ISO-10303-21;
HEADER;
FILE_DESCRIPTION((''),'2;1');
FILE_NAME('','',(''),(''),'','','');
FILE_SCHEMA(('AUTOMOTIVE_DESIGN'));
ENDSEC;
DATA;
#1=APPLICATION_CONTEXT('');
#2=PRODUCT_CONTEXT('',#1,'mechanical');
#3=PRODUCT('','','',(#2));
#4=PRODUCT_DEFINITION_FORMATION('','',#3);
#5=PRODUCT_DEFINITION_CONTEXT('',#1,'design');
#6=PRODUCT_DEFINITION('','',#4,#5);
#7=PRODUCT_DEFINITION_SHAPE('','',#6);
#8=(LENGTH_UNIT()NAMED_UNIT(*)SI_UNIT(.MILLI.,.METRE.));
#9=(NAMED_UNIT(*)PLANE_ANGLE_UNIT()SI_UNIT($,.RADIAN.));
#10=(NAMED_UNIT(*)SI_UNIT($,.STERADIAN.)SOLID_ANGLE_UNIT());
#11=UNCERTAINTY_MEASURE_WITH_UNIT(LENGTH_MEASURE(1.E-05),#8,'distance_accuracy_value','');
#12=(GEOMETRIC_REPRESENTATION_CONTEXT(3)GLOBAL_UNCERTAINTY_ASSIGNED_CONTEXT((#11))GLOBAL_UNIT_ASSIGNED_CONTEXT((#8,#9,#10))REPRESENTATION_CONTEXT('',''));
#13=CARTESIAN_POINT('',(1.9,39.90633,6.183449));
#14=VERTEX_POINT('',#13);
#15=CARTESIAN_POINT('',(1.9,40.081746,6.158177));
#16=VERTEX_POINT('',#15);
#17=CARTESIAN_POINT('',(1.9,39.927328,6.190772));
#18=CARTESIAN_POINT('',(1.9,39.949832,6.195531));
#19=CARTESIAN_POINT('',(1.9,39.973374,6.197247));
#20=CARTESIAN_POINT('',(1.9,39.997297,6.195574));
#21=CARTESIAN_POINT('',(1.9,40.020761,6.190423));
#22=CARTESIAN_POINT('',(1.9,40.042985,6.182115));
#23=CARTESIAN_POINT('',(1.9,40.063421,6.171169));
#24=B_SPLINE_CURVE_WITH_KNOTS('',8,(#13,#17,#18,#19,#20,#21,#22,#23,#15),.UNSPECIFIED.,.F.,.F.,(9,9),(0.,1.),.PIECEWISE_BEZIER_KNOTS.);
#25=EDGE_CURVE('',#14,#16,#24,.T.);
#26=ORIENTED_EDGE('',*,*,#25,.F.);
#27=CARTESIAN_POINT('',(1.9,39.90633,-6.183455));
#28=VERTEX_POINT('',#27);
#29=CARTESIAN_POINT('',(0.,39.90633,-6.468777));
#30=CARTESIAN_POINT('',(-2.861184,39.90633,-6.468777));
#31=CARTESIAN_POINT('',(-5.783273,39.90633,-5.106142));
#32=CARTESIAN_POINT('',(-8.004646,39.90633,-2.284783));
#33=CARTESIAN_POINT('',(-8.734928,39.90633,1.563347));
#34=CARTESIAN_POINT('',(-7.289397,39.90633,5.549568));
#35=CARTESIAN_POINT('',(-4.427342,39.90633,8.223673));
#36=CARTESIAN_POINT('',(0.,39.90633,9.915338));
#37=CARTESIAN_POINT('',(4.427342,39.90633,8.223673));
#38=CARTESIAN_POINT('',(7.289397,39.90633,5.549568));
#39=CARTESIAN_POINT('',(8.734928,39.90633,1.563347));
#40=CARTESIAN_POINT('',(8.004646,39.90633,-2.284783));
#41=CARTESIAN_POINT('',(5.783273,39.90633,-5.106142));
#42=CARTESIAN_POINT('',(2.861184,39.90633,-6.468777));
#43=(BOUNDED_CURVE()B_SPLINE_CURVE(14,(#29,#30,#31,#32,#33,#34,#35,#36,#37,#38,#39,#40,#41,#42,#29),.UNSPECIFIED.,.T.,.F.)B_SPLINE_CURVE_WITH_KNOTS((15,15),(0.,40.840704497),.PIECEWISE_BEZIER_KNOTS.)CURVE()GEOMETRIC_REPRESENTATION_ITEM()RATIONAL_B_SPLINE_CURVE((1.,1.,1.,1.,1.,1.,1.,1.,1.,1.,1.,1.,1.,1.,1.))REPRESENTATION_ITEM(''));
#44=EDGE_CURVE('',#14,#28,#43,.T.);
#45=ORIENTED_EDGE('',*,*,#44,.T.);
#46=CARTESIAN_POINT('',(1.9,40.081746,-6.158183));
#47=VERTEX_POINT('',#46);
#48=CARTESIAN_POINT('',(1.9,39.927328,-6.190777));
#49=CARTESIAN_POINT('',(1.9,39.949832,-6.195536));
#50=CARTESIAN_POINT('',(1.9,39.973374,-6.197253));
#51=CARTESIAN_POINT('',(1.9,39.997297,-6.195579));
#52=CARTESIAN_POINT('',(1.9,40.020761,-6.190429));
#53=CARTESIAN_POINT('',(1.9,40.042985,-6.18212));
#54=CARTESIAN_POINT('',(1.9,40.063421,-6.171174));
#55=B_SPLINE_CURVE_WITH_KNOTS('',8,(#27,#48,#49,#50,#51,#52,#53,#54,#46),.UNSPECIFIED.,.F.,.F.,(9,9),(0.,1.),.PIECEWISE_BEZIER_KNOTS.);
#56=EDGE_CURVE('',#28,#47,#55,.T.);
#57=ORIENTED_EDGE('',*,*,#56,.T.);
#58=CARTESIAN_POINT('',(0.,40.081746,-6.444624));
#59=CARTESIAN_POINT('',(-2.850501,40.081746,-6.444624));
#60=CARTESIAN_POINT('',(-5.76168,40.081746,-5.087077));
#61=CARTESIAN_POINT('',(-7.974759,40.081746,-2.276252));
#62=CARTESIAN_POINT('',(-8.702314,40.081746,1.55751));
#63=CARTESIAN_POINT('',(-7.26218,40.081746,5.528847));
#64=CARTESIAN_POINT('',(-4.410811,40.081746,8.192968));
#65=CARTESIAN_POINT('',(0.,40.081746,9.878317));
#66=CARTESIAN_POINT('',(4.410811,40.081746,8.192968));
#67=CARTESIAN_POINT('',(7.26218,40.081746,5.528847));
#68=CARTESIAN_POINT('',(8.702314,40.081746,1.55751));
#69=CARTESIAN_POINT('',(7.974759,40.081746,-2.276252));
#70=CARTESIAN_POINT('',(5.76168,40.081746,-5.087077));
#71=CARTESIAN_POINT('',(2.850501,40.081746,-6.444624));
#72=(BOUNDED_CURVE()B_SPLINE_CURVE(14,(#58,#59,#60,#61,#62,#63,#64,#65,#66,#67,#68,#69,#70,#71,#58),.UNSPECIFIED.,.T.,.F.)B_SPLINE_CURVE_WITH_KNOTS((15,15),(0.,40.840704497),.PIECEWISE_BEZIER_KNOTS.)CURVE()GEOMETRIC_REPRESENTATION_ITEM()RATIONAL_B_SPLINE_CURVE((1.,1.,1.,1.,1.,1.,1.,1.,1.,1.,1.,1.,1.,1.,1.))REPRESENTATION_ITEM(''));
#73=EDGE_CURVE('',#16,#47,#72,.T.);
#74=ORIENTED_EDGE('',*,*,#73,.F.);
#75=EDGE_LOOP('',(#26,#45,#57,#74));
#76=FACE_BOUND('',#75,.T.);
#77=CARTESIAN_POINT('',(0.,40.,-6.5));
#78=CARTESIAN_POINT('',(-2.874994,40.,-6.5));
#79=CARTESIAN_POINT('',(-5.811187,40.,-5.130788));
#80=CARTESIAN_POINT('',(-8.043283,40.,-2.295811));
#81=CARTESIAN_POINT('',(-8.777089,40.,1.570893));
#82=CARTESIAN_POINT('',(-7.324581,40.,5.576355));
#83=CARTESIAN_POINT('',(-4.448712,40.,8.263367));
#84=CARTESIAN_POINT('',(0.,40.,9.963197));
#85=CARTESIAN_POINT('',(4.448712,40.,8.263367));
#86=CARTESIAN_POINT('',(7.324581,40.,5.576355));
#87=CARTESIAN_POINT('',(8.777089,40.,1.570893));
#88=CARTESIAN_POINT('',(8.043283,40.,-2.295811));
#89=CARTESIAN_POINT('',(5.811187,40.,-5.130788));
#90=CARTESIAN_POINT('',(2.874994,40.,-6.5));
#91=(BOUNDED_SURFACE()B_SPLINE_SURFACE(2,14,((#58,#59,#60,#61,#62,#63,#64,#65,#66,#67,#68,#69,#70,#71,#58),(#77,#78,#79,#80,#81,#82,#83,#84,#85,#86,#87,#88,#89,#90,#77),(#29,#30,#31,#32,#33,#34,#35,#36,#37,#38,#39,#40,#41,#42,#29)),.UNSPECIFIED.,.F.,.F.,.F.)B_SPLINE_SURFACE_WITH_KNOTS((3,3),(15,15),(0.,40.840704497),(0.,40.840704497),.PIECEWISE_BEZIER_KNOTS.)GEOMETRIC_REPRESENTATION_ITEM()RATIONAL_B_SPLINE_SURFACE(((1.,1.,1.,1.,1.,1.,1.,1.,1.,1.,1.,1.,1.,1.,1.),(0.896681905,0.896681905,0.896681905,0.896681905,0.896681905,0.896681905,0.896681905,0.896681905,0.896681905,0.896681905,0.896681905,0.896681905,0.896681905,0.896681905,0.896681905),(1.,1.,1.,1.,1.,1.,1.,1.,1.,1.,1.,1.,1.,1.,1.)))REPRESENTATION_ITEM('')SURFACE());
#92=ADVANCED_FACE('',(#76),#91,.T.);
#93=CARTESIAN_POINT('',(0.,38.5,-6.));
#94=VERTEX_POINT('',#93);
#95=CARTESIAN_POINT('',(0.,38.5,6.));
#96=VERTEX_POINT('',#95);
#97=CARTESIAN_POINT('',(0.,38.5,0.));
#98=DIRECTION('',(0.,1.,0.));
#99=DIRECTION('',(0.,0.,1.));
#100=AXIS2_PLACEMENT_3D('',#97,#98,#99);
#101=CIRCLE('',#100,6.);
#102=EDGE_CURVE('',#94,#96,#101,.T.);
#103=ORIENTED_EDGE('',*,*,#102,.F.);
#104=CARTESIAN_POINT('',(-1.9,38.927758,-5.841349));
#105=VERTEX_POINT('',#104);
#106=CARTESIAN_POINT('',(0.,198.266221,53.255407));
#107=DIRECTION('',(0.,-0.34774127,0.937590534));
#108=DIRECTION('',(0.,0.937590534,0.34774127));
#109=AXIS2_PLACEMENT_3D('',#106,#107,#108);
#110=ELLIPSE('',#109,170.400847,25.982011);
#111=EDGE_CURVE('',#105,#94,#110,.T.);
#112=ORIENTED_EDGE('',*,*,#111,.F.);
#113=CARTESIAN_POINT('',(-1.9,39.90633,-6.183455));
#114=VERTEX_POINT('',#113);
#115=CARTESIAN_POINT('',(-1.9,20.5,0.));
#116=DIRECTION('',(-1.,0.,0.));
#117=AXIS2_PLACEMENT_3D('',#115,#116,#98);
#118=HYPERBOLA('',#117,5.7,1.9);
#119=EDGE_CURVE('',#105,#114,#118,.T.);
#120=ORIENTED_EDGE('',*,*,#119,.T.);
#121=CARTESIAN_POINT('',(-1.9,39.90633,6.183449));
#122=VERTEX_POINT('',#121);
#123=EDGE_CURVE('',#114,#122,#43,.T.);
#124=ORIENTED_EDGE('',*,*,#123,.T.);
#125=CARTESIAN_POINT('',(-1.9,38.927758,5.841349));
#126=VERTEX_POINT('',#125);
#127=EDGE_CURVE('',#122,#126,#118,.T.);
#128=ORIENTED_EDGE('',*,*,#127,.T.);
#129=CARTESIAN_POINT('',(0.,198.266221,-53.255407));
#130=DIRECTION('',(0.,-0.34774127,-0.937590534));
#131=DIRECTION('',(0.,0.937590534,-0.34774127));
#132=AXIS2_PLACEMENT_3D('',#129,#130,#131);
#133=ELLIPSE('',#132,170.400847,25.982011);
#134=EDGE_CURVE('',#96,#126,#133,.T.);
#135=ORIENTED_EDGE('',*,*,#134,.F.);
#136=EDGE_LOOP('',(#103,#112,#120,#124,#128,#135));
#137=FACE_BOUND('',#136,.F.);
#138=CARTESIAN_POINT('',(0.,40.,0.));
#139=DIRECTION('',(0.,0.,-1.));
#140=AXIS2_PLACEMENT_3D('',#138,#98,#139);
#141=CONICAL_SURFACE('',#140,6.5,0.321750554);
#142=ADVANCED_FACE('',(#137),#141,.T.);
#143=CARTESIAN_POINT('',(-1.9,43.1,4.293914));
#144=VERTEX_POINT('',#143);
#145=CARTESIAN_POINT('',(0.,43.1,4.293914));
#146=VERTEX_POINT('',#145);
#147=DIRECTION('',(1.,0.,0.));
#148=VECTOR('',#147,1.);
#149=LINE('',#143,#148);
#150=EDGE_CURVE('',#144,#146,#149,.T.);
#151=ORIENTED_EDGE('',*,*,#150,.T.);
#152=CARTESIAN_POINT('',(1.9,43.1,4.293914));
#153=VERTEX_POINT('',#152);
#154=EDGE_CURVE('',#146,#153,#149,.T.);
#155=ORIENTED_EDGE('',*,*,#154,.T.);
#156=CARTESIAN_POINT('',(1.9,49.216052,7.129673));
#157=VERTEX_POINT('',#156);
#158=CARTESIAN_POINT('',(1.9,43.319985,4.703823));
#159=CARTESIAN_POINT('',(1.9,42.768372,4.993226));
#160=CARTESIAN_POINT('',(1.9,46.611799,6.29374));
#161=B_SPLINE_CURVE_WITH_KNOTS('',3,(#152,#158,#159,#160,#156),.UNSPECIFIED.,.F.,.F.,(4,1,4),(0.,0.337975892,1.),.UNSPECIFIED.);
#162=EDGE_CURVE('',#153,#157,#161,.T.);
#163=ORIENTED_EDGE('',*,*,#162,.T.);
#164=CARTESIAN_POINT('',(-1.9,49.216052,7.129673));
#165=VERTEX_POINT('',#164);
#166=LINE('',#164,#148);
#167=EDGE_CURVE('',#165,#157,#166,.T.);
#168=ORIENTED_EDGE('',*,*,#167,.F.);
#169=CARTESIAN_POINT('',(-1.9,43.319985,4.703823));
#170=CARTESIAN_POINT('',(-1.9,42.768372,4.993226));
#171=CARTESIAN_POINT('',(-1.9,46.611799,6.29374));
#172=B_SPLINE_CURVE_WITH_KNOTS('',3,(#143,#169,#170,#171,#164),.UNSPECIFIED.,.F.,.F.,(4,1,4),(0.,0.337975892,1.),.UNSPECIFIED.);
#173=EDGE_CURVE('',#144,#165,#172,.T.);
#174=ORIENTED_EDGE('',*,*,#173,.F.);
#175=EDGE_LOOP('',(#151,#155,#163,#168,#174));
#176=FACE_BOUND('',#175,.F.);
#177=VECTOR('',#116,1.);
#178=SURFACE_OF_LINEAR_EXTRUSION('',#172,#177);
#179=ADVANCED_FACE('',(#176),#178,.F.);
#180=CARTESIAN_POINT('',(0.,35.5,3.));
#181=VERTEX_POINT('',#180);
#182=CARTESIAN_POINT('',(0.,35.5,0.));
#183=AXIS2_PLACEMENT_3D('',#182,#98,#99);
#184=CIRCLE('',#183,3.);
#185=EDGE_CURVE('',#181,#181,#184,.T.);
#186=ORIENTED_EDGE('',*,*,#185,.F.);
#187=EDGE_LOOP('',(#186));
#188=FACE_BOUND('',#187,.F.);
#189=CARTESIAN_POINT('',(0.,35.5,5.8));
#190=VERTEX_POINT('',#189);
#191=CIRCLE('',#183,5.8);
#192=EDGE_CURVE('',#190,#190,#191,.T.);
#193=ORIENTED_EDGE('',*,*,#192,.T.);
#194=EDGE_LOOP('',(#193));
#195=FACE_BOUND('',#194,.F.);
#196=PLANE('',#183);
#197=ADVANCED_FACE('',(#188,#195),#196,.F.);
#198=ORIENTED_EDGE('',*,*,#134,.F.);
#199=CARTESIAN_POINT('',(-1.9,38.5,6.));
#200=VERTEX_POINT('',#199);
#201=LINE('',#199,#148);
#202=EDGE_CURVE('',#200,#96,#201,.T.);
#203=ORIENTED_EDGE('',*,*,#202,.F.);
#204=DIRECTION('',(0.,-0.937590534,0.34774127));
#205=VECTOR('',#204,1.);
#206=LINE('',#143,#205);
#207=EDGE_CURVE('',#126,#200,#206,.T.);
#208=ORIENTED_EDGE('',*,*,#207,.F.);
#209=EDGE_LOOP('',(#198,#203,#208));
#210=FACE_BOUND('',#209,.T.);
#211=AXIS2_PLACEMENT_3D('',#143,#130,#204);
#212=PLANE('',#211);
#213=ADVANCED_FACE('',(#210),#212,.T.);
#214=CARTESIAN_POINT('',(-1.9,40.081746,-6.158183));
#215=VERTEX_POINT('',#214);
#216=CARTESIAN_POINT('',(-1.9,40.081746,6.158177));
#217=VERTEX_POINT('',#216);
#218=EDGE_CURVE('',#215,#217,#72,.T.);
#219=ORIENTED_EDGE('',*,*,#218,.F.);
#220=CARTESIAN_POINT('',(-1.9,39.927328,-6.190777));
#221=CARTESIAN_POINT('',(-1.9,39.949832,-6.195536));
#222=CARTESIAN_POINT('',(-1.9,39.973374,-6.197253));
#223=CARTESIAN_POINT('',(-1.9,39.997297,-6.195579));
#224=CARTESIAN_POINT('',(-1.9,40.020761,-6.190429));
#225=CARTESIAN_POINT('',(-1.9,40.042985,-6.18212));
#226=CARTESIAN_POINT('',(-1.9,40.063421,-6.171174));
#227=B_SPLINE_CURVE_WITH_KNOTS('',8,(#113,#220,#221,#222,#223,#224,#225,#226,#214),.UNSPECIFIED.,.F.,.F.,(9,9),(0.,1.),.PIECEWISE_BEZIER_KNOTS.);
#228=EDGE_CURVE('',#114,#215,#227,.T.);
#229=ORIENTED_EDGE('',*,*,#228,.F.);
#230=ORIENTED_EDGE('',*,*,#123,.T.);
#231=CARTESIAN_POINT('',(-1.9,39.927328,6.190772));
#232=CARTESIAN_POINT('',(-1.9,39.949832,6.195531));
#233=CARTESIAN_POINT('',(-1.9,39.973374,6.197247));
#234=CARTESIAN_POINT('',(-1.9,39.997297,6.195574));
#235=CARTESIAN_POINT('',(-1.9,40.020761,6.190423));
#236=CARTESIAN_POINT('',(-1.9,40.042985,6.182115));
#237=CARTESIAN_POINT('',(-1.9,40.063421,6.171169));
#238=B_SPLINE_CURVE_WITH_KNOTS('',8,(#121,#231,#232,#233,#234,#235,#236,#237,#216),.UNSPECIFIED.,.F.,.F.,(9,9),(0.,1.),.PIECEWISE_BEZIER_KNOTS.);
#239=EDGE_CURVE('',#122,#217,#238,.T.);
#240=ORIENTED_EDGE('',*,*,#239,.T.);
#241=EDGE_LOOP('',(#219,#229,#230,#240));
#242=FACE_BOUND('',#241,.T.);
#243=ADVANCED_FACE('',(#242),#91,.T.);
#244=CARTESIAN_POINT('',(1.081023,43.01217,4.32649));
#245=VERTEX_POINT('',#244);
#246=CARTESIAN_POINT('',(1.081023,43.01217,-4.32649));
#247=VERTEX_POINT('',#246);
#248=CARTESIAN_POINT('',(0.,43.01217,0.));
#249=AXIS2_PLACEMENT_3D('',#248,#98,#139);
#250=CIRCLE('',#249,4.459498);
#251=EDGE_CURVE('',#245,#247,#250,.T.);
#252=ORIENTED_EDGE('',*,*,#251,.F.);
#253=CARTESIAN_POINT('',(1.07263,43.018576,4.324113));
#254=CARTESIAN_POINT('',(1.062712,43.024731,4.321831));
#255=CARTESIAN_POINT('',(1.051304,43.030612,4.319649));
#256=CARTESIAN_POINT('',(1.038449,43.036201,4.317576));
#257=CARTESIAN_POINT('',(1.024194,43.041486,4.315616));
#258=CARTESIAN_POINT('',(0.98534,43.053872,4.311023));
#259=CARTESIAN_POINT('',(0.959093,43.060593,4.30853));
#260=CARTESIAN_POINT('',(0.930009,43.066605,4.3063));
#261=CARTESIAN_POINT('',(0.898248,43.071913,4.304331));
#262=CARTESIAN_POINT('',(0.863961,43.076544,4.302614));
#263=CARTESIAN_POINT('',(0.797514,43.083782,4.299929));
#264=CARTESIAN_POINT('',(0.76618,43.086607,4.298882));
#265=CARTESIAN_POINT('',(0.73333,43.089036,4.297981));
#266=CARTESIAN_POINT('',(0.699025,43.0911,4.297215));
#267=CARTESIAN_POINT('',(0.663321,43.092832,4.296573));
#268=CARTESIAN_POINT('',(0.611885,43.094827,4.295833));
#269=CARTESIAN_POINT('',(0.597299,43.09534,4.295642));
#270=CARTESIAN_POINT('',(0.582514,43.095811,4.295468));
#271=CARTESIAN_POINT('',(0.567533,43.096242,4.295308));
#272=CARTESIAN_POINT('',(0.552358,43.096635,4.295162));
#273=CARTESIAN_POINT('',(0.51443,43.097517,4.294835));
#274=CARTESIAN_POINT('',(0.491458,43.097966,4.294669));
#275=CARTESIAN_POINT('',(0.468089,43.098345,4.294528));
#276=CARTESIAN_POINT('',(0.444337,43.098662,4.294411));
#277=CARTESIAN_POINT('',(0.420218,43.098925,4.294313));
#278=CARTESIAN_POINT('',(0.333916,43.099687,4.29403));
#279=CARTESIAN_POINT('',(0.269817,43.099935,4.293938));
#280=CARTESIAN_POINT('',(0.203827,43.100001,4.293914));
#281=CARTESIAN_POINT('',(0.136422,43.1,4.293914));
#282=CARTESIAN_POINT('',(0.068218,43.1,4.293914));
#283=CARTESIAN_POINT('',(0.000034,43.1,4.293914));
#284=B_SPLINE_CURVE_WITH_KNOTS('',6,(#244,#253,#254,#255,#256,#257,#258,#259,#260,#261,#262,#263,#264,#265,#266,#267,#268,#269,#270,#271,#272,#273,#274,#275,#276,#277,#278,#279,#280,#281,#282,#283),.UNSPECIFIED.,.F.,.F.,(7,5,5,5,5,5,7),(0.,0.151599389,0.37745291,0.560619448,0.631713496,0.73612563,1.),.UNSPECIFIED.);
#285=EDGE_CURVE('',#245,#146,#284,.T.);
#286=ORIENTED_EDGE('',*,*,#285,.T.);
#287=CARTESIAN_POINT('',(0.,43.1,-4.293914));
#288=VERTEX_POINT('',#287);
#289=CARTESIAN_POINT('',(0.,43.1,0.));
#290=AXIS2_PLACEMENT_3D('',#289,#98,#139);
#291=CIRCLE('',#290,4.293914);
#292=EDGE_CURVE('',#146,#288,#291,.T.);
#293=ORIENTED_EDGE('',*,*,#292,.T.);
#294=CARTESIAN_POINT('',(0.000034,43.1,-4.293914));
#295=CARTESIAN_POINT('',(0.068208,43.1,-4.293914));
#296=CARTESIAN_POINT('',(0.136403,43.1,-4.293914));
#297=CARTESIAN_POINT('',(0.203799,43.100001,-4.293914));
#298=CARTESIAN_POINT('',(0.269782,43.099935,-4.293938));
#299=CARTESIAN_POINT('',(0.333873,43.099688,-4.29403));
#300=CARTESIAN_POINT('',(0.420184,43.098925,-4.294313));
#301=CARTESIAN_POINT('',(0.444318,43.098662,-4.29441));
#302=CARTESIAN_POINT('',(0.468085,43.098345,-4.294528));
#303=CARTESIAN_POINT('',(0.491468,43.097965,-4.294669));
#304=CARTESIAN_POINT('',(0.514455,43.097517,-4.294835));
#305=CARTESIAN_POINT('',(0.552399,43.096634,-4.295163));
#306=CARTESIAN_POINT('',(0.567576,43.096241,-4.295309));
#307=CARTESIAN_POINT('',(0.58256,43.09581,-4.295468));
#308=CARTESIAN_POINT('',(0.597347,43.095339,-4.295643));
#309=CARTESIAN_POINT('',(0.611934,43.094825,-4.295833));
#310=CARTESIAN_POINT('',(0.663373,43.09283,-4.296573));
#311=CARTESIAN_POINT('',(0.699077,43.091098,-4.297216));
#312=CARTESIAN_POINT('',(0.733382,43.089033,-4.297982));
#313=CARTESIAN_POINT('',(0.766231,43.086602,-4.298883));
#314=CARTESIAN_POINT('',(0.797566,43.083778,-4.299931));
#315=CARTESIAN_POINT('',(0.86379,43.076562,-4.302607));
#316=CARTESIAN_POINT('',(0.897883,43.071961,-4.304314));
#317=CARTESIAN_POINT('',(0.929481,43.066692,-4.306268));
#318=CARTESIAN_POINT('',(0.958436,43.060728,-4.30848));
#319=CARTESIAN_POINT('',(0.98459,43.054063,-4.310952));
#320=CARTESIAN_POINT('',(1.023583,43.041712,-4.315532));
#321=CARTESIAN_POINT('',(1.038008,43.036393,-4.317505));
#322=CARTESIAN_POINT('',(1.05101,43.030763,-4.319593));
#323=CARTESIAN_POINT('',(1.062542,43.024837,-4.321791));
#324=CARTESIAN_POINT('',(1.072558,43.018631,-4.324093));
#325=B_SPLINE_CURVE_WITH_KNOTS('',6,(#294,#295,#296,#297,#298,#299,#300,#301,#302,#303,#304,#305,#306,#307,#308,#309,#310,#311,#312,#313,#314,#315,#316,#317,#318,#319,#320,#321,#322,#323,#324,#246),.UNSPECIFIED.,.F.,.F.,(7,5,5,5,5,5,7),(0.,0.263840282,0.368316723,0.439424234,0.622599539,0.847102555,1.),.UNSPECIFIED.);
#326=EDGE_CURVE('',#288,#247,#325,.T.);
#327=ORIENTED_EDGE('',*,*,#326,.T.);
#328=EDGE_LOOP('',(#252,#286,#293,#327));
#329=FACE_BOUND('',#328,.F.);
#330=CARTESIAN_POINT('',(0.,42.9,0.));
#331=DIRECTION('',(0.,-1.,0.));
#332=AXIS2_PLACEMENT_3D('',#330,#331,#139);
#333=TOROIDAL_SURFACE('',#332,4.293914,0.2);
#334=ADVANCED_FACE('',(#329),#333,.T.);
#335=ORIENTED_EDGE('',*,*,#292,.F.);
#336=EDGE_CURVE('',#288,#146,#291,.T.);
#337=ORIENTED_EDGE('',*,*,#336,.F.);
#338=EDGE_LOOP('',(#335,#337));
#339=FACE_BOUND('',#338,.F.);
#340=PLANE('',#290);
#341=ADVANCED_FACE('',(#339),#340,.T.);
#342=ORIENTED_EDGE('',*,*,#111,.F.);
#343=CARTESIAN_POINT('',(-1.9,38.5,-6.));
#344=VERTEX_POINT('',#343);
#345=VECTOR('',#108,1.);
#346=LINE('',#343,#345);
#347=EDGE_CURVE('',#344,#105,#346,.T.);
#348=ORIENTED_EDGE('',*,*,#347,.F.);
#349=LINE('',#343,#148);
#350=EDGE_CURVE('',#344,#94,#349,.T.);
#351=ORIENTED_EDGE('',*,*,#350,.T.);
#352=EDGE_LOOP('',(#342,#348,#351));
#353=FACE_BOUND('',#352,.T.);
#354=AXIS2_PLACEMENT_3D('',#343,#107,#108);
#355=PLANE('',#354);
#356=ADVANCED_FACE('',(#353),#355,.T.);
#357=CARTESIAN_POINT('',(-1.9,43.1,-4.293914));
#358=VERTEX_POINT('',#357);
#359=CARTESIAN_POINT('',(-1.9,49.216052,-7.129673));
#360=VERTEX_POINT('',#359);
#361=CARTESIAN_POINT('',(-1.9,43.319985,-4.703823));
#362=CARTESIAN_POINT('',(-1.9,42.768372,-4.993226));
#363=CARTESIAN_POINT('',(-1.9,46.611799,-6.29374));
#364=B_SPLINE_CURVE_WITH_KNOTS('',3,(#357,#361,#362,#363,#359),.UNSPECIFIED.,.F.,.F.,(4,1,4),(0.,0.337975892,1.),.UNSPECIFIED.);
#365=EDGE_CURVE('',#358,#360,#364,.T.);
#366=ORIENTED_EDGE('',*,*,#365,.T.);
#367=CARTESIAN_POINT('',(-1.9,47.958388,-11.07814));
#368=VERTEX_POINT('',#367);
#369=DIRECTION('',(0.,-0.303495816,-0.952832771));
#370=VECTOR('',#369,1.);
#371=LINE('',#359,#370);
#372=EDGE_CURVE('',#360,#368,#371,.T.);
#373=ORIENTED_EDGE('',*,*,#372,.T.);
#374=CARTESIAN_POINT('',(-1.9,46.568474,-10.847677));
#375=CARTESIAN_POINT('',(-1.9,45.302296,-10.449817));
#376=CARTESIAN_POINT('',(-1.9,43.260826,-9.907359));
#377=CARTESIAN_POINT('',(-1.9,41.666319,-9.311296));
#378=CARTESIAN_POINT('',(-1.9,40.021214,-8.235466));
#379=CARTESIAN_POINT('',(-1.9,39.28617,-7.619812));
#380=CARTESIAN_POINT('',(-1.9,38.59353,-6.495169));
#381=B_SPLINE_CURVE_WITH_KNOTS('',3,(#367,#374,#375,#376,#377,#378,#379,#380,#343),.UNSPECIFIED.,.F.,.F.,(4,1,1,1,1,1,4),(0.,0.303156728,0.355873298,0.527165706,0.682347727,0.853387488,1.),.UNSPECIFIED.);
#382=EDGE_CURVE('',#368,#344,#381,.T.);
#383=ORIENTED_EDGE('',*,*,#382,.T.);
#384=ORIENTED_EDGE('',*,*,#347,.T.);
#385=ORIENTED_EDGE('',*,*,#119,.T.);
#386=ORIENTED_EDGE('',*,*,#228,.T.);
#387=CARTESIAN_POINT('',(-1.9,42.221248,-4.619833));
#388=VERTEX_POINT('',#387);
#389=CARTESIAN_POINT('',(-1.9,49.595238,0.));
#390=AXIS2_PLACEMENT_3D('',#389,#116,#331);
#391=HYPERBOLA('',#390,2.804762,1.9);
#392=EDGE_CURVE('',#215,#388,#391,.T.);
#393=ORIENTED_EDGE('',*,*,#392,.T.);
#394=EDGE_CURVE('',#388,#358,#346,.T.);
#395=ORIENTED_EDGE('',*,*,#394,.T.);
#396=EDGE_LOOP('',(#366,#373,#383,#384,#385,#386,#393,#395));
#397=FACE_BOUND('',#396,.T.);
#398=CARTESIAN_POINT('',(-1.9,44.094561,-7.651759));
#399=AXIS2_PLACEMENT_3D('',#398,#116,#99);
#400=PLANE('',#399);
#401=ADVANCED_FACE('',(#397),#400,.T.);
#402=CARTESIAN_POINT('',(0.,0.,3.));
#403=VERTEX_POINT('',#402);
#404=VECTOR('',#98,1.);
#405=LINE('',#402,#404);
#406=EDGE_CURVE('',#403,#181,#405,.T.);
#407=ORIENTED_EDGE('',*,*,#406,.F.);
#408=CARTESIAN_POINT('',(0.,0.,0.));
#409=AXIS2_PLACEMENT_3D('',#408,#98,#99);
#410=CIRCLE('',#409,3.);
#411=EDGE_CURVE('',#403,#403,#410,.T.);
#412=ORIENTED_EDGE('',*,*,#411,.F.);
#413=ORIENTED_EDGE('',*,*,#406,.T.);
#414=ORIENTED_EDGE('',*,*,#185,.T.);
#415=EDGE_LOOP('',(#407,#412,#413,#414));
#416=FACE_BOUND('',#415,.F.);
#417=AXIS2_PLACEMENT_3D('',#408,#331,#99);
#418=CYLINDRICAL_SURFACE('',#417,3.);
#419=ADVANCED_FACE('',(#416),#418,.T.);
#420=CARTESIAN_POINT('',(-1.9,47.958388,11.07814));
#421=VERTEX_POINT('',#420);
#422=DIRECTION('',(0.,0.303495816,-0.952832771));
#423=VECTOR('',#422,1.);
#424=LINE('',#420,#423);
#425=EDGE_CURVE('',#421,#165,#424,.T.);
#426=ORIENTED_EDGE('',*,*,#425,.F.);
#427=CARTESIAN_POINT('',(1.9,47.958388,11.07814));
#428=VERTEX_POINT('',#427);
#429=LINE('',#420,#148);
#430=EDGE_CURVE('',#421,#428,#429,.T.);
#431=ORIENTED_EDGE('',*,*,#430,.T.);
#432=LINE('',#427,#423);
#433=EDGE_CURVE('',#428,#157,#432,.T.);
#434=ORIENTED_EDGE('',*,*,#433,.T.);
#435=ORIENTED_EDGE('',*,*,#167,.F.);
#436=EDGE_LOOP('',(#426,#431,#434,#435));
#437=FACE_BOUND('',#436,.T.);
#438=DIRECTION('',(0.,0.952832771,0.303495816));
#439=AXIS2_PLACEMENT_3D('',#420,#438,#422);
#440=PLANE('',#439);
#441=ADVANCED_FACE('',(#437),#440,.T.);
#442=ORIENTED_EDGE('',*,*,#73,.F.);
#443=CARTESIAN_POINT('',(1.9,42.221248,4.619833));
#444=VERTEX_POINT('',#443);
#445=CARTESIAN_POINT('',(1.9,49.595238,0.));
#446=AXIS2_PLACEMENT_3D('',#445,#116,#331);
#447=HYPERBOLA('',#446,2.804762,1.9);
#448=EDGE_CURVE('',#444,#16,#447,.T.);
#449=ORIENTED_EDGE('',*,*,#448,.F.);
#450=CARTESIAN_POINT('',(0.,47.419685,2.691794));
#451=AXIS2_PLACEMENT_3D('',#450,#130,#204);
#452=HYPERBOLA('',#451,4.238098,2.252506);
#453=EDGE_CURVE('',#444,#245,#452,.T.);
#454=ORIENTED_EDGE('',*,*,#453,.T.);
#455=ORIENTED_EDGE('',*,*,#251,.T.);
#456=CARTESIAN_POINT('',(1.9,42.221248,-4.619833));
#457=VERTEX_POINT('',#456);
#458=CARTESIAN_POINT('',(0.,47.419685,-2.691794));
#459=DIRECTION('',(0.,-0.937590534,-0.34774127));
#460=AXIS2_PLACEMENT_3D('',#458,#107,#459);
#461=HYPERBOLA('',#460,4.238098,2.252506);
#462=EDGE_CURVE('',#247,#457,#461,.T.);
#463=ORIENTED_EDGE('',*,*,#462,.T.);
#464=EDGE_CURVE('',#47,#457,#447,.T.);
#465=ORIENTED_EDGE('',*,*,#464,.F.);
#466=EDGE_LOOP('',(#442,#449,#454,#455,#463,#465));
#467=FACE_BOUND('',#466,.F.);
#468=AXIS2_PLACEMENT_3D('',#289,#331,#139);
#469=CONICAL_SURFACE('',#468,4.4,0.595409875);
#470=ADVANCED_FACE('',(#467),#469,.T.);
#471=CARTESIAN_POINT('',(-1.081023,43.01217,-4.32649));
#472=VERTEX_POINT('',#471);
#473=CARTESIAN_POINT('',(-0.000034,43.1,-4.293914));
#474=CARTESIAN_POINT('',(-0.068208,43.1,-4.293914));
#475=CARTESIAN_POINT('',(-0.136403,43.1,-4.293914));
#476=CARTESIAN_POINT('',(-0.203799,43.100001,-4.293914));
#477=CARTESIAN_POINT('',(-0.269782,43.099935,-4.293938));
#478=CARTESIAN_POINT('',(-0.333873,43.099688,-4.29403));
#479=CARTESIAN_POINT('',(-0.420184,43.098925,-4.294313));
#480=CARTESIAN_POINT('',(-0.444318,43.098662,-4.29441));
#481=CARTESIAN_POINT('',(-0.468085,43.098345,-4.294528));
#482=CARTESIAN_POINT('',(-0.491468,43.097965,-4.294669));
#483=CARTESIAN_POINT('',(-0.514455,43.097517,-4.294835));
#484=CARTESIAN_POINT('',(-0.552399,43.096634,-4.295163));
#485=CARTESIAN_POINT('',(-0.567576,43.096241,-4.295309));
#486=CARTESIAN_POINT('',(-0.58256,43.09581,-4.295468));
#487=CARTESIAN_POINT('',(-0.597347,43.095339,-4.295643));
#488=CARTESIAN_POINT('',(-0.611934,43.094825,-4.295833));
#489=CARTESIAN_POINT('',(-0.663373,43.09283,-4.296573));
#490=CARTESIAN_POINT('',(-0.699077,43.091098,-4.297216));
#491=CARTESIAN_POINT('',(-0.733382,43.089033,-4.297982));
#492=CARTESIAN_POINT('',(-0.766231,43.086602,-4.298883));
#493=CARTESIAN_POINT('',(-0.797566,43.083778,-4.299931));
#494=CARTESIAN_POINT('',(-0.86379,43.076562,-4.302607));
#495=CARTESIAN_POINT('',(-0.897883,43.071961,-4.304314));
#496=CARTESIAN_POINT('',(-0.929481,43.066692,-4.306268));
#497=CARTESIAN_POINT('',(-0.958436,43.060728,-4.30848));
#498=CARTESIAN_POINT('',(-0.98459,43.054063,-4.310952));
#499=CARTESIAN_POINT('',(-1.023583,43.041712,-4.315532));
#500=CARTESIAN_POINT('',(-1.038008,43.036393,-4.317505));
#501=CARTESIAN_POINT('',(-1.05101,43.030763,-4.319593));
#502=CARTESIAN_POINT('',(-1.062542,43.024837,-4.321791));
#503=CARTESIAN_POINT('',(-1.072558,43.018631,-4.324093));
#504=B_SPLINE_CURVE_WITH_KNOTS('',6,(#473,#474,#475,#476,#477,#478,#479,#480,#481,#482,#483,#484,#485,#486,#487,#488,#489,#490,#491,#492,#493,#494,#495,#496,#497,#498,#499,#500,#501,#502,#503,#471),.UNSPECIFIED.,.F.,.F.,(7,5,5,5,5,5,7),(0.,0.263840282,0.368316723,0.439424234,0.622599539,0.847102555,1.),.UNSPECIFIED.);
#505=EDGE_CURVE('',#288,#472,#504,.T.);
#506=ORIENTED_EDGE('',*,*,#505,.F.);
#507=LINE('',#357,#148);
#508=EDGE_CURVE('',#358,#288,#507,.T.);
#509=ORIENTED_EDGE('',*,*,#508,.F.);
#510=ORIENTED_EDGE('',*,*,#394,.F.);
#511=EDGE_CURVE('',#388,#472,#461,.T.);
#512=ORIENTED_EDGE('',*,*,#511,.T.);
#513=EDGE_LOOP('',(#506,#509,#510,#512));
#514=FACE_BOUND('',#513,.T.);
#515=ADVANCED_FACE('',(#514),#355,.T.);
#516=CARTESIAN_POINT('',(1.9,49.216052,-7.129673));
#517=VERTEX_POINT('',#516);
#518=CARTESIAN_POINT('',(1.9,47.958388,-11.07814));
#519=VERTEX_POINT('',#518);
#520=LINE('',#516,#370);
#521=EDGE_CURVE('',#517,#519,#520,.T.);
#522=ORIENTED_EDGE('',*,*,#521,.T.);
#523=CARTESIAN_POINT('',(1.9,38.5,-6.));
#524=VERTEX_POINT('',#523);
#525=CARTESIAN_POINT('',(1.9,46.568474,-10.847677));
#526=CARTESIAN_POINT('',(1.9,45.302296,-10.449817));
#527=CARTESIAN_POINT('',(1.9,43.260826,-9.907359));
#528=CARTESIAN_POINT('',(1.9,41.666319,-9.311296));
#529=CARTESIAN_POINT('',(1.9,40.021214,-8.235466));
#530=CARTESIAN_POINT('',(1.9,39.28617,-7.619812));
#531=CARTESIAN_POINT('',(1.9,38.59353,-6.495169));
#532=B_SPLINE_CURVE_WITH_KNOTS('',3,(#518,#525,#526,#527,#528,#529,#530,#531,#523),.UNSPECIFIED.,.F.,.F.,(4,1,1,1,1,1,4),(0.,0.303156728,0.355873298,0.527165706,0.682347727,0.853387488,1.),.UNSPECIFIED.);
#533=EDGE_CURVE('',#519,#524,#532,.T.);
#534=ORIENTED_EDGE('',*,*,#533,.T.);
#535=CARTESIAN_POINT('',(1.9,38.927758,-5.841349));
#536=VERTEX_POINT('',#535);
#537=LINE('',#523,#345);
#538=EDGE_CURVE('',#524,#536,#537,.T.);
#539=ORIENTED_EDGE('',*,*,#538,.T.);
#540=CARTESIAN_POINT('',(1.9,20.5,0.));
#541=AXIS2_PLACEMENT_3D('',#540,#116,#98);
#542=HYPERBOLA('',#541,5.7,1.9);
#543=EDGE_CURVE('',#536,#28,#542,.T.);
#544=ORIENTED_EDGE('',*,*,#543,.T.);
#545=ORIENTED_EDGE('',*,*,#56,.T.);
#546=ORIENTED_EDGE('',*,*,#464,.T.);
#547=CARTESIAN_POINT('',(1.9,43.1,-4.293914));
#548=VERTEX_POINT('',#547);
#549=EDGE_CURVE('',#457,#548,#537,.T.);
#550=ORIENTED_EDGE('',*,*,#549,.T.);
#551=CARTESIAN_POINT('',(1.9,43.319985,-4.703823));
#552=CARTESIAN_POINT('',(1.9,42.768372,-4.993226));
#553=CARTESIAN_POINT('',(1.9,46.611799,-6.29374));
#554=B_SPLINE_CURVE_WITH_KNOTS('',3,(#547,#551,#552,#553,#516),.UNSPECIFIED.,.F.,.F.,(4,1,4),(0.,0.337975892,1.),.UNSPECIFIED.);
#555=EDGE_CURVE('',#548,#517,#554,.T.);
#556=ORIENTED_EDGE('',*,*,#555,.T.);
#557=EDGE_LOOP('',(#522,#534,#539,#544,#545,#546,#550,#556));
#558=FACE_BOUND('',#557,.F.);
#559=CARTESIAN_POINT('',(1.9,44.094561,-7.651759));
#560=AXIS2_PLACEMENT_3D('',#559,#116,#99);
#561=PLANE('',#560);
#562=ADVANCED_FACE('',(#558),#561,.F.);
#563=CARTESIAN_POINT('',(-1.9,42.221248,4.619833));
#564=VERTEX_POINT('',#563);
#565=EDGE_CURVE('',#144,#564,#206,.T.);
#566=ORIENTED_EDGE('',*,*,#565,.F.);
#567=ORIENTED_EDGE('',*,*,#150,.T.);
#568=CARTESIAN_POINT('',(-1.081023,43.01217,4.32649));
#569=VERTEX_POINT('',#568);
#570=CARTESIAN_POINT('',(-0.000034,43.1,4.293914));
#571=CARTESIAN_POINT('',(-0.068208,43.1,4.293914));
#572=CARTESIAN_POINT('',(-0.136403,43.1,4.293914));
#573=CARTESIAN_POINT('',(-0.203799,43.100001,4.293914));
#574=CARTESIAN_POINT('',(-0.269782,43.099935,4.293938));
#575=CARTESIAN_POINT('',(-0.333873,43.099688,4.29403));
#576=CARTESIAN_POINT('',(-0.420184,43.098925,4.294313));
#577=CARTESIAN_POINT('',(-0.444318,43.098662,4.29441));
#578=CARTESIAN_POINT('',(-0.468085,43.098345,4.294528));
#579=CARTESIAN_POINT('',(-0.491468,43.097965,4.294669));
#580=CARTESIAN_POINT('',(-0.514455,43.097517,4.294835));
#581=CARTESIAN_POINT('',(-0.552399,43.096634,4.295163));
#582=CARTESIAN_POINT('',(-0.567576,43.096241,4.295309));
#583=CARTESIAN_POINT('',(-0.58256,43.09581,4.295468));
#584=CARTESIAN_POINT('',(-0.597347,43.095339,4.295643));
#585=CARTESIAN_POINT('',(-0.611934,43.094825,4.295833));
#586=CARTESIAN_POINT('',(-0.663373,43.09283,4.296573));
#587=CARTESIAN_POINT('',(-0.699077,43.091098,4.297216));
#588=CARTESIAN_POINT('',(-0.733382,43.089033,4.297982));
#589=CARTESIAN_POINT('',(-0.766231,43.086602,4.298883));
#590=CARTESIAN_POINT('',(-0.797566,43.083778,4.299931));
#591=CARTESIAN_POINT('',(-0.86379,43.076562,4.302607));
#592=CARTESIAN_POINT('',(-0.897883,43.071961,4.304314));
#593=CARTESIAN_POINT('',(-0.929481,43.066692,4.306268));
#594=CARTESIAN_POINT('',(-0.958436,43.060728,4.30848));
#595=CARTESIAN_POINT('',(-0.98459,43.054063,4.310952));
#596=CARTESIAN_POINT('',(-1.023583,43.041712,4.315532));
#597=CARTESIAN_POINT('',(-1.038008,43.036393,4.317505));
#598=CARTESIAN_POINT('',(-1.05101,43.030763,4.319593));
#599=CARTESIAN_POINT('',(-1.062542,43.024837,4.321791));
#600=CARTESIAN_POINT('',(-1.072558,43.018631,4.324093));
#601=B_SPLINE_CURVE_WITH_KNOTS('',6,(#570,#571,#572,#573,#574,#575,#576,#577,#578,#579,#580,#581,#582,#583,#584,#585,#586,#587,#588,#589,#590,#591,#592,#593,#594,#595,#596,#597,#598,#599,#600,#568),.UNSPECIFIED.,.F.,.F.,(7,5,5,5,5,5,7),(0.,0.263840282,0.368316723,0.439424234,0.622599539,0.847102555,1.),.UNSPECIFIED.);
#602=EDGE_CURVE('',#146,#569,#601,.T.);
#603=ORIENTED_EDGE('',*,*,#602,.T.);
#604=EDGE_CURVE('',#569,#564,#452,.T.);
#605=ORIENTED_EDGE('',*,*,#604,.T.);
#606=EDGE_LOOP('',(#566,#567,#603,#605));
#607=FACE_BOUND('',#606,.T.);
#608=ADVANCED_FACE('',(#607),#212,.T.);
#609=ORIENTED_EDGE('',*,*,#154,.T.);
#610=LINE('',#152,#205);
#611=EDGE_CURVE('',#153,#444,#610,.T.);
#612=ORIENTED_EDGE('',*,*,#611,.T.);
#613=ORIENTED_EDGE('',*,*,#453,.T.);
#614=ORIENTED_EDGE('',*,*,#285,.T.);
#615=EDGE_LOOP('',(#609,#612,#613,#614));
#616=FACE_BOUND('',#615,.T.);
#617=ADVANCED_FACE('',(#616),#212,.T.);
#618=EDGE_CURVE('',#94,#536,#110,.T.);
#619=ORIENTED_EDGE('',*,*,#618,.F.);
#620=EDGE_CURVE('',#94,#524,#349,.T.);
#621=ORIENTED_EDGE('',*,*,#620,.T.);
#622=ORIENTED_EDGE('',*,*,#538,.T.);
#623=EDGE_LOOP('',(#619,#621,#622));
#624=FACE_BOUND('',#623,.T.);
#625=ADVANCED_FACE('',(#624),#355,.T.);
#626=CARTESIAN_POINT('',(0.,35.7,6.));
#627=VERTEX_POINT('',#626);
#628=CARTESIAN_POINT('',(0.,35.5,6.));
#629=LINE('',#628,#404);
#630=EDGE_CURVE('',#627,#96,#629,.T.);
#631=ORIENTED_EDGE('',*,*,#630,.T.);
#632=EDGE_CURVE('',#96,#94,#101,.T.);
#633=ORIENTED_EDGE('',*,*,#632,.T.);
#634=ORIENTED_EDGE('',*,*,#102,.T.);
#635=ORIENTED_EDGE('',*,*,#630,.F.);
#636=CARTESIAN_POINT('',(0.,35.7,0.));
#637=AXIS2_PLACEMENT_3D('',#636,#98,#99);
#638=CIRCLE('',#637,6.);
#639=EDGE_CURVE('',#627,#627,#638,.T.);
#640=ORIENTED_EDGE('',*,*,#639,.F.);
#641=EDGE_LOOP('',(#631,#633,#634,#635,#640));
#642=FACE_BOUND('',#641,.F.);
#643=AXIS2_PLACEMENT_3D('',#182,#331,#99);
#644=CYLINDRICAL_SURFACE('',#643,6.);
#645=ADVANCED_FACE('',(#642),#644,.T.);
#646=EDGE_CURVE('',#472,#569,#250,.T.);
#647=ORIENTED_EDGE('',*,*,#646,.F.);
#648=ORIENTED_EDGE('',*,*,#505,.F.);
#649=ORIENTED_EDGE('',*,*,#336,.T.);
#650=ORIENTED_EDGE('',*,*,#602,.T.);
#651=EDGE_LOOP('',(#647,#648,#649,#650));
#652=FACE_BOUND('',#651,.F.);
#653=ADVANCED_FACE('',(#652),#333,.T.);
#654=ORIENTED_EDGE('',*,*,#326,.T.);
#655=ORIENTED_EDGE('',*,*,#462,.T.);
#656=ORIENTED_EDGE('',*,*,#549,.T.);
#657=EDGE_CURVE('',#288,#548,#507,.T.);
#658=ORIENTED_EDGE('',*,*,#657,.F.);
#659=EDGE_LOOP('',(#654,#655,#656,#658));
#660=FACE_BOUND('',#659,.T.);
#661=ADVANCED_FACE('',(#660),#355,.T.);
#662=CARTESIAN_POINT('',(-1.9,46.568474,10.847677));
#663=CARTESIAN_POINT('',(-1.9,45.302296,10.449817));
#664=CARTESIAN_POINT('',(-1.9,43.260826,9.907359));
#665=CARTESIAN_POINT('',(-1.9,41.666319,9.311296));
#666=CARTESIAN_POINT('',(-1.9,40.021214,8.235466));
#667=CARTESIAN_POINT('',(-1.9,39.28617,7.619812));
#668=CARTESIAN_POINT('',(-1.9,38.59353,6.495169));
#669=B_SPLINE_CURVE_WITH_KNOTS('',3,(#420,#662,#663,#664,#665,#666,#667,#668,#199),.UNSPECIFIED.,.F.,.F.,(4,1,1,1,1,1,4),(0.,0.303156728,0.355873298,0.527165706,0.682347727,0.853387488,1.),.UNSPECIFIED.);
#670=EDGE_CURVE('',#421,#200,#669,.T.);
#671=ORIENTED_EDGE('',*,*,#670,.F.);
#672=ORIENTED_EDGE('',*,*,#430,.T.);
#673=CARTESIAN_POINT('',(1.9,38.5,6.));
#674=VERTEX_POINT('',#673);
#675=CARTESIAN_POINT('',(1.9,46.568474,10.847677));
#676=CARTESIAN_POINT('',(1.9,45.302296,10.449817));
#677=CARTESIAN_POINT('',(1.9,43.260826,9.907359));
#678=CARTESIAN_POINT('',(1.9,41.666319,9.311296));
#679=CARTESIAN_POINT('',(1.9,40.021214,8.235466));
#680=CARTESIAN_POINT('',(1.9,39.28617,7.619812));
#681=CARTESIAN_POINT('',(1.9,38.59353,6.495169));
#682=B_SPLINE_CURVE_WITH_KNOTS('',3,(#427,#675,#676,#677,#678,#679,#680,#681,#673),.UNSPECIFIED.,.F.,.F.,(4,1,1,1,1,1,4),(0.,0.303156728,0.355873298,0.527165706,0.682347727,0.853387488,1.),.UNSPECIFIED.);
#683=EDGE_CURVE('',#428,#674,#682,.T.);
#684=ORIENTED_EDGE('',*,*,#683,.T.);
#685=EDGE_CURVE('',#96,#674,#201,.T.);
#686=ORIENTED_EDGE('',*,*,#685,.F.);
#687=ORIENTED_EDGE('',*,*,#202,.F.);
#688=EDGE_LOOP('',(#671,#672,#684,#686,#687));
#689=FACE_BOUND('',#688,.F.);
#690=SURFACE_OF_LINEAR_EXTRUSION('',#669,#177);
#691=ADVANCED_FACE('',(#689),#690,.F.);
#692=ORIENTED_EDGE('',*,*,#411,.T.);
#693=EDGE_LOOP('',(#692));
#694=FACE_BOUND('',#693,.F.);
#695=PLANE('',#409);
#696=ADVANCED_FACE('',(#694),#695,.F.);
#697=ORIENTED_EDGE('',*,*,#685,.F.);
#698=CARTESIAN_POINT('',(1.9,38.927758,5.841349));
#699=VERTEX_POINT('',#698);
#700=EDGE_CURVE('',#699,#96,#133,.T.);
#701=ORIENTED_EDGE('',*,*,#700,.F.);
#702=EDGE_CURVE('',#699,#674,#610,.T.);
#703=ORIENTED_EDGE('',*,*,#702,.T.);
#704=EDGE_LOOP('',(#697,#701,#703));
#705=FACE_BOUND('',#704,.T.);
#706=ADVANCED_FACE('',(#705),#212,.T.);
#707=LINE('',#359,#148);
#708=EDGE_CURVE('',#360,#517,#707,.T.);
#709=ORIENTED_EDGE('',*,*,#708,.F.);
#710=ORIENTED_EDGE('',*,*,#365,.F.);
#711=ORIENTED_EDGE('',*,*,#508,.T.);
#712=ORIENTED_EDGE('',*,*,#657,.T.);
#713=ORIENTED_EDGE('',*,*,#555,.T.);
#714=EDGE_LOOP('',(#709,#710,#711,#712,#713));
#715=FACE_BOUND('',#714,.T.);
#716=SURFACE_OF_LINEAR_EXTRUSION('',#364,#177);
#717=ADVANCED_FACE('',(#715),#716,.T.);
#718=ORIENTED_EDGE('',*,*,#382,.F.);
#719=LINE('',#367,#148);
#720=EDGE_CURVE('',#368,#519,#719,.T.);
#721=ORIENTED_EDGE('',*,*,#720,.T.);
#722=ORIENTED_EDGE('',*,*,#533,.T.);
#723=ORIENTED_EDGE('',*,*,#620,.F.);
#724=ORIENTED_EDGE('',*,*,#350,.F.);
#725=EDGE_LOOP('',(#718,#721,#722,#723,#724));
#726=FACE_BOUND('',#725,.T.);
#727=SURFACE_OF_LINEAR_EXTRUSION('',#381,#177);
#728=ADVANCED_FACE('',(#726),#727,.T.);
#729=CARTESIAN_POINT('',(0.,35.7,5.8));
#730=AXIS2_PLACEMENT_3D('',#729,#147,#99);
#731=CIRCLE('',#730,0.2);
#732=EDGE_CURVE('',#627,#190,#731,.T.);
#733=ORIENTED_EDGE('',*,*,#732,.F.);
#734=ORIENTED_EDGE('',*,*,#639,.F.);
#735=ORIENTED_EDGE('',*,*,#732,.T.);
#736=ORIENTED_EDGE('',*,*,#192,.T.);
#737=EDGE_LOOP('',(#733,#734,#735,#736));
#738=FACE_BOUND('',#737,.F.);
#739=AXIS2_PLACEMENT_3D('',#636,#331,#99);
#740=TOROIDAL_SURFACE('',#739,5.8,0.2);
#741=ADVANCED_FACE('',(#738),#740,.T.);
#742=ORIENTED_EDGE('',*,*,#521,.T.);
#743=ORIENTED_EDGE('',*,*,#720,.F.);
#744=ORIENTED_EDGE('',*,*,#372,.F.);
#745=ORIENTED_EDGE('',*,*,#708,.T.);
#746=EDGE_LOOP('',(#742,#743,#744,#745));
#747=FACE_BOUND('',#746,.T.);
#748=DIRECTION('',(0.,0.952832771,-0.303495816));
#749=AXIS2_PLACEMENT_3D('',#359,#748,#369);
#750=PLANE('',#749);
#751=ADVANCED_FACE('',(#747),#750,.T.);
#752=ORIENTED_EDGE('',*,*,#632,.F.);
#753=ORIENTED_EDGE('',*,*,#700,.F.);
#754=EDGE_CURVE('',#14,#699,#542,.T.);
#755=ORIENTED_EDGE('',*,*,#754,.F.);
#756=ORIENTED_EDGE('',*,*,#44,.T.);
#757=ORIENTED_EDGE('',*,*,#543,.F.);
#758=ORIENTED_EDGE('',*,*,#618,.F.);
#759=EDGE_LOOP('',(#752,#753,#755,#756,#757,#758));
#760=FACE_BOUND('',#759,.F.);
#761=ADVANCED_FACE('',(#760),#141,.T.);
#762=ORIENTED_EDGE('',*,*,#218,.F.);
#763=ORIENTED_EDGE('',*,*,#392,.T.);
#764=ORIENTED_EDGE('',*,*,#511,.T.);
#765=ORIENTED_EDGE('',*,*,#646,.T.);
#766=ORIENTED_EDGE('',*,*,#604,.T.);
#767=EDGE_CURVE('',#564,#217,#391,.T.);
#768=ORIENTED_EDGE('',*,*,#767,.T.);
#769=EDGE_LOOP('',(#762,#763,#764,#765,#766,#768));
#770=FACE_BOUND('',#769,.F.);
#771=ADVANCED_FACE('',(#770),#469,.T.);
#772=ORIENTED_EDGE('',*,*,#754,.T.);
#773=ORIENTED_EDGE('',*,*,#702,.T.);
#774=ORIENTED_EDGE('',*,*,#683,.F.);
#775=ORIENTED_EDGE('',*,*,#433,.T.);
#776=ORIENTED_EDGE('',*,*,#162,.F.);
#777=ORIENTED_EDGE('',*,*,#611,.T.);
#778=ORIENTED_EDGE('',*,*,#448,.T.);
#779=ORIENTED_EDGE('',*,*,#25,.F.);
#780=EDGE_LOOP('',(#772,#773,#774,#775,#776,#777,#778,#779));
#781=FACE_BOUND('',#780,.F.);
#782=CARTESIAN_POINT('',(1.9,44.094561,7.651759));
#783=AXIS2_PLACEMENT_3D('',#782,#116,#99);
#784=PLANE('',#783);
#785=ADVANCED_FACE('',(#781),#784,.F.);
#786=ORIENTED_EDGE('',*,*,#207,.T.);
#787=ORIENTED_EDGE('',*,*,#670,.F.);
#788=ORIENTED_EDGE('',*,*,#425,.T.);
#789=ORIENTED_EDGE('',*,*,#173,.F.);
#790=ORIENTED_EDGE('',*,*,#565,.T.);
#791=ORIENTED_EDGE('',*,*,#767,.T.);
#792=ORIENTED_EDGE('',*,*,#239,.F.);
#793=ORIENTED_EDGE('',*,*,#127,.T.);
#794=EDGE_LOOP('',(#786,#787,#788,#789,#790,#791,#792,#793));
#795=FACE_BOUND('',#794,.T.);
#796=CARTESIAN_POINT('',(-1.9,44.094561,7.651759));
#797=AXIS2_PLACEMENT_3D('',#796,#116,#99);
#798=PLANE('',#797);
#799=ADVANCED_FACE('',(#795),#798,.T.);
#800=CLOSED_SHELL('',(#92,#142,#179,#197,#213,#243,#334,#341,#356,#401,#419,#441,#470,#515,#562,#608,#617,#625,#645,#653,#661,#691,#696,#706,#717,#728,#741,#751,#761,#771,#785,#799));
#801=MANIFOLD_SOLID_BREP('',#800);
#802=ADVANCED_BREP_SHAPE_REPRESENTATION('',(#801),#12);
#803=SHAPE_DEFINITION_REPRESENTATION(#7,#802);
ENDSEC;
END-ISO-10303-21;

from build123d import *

# Parameters (mm, degrees)
SKETCH_1_R           = 3
EXTRUDE_1_DEPTH      = 35.5
SKETCH_2_R           = 6
EXTRUDE_2_DEPTH      = 3
FILLET_1_R           = 0.2
EXTRUDE_3_DEPTH      = 1.9
EXTRUDE_3_DEPTH_BACK = 1.9


with BuildPart() as part:
    # 스케치1 → 보스-돌출1 (new body)
    with BuildSketch(Plane(origin=(0, 0, 0), x_dir=(1, 0, 0), z_dir=(0, 1, 0))):
        Circle(SKETCH_1_R)
    extrude(amount=EXTRUDE_1_DEPTH)

    # 스케치2 → 보스-돌출2 (add)
    with BuildSketch(Plane(origin=(0, 35.5, 0), x_dir=(1, 0, 0), z_dir=(0, 1, 0))):
        Circle(SKETCH_2_R)
    extrude(amount=EXTRUDE_2_DEPTH)

    # 스케치3 → 회전1 (revolve)
    with BuildSketch(Plane(origin=(0, 0, 0), x_dir=(0, 0, -1), z_dir=(1, 0, 0))):
        Polygon((0, 43.1), (4.4, 43.1), (6.5, 40), (6, 38.5), (0, 38.5), align=None)
    revolve(axis=Axis((0, 38.5, 0), (0, 1, 0)))

    # 필렛1
    fillet_1_edges = [part.edges().sort_by_distance(p)[0] for p in [
        (0, 43.1, 4.4),
        (0, 40, 6.5),
        (-6, 35.5, 0),
    ]]
    fillet(fillet_1_edges, radius=FILLET_1_R)

    # 스케치4 → 보스-돌출3 (add, two sides: drawn at the far end of the back side and taken through both)
    with BuildSketch(Plane(origin=(0, 0, 0), x_dir=(0, 0, -1), z_dir=(1, 0, 0)).offset(-EXTRUDE_3_DEPTH_BACK)):
        with BuildLine():
            Line((7.129672899, 49.216052305), (11.078140475, 47.958388396))
            add(Edge.make_bspline(
                [(11.078140475, 47.958388396), (10.847677477, 46.568474241), (10.449817168, 45.302296098), (9.907358884, 43.260826265), (9.311295548, 41.6663192), (8.235465928, 40.02121413), (7.619812039, 39.286169598), (6.4951686, 38.593529849), (6, 38.5)],
                knots=[0, 0, 0, 0, 0.303156728, 0.355873298, 0.527165706, 0.682347727, 0.853387488, 1, 1, 1, 1], degree=3))
            Line((6, 38.5), (4.293914255, 43.1))
            add(Edge.make_bspline(
                [(4.293914255, 43.1), (4.703822543, 43.319985303), (4.99322637, 42.768371987), (6.293739819, 46.611799248), (7.129672899, 49.216052305)],
                knots=[0, 0, 0, 0, 0.337975892, 1, 1, 1, 1], degree=3))
        make_face()
        with BuildLine():
            Line((-4.293914255, 43.1), (-6, 38.5))
            add(Edge.make_bspline(
                [(-11.078140475, 47.958388396), (-10.847677477, 46.568474241), (-10.449817168, 45.302296098), (-9.907358884, 43.260826265), (-9.311295548, 41.6663192), (-8.235465928, 40.02121413), (-7.619812039, 39.286169598), (-6.4951686, 38.593529849), (-6, 38.5)],
                knots=[0, 0, 0, 0, 0.303156728, 0.355873298, 0.527165706, 0.682347727, 0.853387488, 1, 1, 1, 1], degree=3))
            Line((-11.078140475, 47.958388396), (-7.129672899, 49.216052305))
            add(Edge.make_bspline(
                [(-4.293914255, 43.1), (-4.703822543, 43.319985303), (-4.99322637, 42.768371987), (-6.293739819, 46.611799248), (-7.129672899, 49.216052305)],
                knots=[0, 0, 0, 0, 0.337975892, 1, 1, 1, 1], degree=3))
        make_face()
    extrude(amount=EXTRUDE_3_DEPTH + EXTRUDE_3_DEPTH_BACK)


solid = part.part
